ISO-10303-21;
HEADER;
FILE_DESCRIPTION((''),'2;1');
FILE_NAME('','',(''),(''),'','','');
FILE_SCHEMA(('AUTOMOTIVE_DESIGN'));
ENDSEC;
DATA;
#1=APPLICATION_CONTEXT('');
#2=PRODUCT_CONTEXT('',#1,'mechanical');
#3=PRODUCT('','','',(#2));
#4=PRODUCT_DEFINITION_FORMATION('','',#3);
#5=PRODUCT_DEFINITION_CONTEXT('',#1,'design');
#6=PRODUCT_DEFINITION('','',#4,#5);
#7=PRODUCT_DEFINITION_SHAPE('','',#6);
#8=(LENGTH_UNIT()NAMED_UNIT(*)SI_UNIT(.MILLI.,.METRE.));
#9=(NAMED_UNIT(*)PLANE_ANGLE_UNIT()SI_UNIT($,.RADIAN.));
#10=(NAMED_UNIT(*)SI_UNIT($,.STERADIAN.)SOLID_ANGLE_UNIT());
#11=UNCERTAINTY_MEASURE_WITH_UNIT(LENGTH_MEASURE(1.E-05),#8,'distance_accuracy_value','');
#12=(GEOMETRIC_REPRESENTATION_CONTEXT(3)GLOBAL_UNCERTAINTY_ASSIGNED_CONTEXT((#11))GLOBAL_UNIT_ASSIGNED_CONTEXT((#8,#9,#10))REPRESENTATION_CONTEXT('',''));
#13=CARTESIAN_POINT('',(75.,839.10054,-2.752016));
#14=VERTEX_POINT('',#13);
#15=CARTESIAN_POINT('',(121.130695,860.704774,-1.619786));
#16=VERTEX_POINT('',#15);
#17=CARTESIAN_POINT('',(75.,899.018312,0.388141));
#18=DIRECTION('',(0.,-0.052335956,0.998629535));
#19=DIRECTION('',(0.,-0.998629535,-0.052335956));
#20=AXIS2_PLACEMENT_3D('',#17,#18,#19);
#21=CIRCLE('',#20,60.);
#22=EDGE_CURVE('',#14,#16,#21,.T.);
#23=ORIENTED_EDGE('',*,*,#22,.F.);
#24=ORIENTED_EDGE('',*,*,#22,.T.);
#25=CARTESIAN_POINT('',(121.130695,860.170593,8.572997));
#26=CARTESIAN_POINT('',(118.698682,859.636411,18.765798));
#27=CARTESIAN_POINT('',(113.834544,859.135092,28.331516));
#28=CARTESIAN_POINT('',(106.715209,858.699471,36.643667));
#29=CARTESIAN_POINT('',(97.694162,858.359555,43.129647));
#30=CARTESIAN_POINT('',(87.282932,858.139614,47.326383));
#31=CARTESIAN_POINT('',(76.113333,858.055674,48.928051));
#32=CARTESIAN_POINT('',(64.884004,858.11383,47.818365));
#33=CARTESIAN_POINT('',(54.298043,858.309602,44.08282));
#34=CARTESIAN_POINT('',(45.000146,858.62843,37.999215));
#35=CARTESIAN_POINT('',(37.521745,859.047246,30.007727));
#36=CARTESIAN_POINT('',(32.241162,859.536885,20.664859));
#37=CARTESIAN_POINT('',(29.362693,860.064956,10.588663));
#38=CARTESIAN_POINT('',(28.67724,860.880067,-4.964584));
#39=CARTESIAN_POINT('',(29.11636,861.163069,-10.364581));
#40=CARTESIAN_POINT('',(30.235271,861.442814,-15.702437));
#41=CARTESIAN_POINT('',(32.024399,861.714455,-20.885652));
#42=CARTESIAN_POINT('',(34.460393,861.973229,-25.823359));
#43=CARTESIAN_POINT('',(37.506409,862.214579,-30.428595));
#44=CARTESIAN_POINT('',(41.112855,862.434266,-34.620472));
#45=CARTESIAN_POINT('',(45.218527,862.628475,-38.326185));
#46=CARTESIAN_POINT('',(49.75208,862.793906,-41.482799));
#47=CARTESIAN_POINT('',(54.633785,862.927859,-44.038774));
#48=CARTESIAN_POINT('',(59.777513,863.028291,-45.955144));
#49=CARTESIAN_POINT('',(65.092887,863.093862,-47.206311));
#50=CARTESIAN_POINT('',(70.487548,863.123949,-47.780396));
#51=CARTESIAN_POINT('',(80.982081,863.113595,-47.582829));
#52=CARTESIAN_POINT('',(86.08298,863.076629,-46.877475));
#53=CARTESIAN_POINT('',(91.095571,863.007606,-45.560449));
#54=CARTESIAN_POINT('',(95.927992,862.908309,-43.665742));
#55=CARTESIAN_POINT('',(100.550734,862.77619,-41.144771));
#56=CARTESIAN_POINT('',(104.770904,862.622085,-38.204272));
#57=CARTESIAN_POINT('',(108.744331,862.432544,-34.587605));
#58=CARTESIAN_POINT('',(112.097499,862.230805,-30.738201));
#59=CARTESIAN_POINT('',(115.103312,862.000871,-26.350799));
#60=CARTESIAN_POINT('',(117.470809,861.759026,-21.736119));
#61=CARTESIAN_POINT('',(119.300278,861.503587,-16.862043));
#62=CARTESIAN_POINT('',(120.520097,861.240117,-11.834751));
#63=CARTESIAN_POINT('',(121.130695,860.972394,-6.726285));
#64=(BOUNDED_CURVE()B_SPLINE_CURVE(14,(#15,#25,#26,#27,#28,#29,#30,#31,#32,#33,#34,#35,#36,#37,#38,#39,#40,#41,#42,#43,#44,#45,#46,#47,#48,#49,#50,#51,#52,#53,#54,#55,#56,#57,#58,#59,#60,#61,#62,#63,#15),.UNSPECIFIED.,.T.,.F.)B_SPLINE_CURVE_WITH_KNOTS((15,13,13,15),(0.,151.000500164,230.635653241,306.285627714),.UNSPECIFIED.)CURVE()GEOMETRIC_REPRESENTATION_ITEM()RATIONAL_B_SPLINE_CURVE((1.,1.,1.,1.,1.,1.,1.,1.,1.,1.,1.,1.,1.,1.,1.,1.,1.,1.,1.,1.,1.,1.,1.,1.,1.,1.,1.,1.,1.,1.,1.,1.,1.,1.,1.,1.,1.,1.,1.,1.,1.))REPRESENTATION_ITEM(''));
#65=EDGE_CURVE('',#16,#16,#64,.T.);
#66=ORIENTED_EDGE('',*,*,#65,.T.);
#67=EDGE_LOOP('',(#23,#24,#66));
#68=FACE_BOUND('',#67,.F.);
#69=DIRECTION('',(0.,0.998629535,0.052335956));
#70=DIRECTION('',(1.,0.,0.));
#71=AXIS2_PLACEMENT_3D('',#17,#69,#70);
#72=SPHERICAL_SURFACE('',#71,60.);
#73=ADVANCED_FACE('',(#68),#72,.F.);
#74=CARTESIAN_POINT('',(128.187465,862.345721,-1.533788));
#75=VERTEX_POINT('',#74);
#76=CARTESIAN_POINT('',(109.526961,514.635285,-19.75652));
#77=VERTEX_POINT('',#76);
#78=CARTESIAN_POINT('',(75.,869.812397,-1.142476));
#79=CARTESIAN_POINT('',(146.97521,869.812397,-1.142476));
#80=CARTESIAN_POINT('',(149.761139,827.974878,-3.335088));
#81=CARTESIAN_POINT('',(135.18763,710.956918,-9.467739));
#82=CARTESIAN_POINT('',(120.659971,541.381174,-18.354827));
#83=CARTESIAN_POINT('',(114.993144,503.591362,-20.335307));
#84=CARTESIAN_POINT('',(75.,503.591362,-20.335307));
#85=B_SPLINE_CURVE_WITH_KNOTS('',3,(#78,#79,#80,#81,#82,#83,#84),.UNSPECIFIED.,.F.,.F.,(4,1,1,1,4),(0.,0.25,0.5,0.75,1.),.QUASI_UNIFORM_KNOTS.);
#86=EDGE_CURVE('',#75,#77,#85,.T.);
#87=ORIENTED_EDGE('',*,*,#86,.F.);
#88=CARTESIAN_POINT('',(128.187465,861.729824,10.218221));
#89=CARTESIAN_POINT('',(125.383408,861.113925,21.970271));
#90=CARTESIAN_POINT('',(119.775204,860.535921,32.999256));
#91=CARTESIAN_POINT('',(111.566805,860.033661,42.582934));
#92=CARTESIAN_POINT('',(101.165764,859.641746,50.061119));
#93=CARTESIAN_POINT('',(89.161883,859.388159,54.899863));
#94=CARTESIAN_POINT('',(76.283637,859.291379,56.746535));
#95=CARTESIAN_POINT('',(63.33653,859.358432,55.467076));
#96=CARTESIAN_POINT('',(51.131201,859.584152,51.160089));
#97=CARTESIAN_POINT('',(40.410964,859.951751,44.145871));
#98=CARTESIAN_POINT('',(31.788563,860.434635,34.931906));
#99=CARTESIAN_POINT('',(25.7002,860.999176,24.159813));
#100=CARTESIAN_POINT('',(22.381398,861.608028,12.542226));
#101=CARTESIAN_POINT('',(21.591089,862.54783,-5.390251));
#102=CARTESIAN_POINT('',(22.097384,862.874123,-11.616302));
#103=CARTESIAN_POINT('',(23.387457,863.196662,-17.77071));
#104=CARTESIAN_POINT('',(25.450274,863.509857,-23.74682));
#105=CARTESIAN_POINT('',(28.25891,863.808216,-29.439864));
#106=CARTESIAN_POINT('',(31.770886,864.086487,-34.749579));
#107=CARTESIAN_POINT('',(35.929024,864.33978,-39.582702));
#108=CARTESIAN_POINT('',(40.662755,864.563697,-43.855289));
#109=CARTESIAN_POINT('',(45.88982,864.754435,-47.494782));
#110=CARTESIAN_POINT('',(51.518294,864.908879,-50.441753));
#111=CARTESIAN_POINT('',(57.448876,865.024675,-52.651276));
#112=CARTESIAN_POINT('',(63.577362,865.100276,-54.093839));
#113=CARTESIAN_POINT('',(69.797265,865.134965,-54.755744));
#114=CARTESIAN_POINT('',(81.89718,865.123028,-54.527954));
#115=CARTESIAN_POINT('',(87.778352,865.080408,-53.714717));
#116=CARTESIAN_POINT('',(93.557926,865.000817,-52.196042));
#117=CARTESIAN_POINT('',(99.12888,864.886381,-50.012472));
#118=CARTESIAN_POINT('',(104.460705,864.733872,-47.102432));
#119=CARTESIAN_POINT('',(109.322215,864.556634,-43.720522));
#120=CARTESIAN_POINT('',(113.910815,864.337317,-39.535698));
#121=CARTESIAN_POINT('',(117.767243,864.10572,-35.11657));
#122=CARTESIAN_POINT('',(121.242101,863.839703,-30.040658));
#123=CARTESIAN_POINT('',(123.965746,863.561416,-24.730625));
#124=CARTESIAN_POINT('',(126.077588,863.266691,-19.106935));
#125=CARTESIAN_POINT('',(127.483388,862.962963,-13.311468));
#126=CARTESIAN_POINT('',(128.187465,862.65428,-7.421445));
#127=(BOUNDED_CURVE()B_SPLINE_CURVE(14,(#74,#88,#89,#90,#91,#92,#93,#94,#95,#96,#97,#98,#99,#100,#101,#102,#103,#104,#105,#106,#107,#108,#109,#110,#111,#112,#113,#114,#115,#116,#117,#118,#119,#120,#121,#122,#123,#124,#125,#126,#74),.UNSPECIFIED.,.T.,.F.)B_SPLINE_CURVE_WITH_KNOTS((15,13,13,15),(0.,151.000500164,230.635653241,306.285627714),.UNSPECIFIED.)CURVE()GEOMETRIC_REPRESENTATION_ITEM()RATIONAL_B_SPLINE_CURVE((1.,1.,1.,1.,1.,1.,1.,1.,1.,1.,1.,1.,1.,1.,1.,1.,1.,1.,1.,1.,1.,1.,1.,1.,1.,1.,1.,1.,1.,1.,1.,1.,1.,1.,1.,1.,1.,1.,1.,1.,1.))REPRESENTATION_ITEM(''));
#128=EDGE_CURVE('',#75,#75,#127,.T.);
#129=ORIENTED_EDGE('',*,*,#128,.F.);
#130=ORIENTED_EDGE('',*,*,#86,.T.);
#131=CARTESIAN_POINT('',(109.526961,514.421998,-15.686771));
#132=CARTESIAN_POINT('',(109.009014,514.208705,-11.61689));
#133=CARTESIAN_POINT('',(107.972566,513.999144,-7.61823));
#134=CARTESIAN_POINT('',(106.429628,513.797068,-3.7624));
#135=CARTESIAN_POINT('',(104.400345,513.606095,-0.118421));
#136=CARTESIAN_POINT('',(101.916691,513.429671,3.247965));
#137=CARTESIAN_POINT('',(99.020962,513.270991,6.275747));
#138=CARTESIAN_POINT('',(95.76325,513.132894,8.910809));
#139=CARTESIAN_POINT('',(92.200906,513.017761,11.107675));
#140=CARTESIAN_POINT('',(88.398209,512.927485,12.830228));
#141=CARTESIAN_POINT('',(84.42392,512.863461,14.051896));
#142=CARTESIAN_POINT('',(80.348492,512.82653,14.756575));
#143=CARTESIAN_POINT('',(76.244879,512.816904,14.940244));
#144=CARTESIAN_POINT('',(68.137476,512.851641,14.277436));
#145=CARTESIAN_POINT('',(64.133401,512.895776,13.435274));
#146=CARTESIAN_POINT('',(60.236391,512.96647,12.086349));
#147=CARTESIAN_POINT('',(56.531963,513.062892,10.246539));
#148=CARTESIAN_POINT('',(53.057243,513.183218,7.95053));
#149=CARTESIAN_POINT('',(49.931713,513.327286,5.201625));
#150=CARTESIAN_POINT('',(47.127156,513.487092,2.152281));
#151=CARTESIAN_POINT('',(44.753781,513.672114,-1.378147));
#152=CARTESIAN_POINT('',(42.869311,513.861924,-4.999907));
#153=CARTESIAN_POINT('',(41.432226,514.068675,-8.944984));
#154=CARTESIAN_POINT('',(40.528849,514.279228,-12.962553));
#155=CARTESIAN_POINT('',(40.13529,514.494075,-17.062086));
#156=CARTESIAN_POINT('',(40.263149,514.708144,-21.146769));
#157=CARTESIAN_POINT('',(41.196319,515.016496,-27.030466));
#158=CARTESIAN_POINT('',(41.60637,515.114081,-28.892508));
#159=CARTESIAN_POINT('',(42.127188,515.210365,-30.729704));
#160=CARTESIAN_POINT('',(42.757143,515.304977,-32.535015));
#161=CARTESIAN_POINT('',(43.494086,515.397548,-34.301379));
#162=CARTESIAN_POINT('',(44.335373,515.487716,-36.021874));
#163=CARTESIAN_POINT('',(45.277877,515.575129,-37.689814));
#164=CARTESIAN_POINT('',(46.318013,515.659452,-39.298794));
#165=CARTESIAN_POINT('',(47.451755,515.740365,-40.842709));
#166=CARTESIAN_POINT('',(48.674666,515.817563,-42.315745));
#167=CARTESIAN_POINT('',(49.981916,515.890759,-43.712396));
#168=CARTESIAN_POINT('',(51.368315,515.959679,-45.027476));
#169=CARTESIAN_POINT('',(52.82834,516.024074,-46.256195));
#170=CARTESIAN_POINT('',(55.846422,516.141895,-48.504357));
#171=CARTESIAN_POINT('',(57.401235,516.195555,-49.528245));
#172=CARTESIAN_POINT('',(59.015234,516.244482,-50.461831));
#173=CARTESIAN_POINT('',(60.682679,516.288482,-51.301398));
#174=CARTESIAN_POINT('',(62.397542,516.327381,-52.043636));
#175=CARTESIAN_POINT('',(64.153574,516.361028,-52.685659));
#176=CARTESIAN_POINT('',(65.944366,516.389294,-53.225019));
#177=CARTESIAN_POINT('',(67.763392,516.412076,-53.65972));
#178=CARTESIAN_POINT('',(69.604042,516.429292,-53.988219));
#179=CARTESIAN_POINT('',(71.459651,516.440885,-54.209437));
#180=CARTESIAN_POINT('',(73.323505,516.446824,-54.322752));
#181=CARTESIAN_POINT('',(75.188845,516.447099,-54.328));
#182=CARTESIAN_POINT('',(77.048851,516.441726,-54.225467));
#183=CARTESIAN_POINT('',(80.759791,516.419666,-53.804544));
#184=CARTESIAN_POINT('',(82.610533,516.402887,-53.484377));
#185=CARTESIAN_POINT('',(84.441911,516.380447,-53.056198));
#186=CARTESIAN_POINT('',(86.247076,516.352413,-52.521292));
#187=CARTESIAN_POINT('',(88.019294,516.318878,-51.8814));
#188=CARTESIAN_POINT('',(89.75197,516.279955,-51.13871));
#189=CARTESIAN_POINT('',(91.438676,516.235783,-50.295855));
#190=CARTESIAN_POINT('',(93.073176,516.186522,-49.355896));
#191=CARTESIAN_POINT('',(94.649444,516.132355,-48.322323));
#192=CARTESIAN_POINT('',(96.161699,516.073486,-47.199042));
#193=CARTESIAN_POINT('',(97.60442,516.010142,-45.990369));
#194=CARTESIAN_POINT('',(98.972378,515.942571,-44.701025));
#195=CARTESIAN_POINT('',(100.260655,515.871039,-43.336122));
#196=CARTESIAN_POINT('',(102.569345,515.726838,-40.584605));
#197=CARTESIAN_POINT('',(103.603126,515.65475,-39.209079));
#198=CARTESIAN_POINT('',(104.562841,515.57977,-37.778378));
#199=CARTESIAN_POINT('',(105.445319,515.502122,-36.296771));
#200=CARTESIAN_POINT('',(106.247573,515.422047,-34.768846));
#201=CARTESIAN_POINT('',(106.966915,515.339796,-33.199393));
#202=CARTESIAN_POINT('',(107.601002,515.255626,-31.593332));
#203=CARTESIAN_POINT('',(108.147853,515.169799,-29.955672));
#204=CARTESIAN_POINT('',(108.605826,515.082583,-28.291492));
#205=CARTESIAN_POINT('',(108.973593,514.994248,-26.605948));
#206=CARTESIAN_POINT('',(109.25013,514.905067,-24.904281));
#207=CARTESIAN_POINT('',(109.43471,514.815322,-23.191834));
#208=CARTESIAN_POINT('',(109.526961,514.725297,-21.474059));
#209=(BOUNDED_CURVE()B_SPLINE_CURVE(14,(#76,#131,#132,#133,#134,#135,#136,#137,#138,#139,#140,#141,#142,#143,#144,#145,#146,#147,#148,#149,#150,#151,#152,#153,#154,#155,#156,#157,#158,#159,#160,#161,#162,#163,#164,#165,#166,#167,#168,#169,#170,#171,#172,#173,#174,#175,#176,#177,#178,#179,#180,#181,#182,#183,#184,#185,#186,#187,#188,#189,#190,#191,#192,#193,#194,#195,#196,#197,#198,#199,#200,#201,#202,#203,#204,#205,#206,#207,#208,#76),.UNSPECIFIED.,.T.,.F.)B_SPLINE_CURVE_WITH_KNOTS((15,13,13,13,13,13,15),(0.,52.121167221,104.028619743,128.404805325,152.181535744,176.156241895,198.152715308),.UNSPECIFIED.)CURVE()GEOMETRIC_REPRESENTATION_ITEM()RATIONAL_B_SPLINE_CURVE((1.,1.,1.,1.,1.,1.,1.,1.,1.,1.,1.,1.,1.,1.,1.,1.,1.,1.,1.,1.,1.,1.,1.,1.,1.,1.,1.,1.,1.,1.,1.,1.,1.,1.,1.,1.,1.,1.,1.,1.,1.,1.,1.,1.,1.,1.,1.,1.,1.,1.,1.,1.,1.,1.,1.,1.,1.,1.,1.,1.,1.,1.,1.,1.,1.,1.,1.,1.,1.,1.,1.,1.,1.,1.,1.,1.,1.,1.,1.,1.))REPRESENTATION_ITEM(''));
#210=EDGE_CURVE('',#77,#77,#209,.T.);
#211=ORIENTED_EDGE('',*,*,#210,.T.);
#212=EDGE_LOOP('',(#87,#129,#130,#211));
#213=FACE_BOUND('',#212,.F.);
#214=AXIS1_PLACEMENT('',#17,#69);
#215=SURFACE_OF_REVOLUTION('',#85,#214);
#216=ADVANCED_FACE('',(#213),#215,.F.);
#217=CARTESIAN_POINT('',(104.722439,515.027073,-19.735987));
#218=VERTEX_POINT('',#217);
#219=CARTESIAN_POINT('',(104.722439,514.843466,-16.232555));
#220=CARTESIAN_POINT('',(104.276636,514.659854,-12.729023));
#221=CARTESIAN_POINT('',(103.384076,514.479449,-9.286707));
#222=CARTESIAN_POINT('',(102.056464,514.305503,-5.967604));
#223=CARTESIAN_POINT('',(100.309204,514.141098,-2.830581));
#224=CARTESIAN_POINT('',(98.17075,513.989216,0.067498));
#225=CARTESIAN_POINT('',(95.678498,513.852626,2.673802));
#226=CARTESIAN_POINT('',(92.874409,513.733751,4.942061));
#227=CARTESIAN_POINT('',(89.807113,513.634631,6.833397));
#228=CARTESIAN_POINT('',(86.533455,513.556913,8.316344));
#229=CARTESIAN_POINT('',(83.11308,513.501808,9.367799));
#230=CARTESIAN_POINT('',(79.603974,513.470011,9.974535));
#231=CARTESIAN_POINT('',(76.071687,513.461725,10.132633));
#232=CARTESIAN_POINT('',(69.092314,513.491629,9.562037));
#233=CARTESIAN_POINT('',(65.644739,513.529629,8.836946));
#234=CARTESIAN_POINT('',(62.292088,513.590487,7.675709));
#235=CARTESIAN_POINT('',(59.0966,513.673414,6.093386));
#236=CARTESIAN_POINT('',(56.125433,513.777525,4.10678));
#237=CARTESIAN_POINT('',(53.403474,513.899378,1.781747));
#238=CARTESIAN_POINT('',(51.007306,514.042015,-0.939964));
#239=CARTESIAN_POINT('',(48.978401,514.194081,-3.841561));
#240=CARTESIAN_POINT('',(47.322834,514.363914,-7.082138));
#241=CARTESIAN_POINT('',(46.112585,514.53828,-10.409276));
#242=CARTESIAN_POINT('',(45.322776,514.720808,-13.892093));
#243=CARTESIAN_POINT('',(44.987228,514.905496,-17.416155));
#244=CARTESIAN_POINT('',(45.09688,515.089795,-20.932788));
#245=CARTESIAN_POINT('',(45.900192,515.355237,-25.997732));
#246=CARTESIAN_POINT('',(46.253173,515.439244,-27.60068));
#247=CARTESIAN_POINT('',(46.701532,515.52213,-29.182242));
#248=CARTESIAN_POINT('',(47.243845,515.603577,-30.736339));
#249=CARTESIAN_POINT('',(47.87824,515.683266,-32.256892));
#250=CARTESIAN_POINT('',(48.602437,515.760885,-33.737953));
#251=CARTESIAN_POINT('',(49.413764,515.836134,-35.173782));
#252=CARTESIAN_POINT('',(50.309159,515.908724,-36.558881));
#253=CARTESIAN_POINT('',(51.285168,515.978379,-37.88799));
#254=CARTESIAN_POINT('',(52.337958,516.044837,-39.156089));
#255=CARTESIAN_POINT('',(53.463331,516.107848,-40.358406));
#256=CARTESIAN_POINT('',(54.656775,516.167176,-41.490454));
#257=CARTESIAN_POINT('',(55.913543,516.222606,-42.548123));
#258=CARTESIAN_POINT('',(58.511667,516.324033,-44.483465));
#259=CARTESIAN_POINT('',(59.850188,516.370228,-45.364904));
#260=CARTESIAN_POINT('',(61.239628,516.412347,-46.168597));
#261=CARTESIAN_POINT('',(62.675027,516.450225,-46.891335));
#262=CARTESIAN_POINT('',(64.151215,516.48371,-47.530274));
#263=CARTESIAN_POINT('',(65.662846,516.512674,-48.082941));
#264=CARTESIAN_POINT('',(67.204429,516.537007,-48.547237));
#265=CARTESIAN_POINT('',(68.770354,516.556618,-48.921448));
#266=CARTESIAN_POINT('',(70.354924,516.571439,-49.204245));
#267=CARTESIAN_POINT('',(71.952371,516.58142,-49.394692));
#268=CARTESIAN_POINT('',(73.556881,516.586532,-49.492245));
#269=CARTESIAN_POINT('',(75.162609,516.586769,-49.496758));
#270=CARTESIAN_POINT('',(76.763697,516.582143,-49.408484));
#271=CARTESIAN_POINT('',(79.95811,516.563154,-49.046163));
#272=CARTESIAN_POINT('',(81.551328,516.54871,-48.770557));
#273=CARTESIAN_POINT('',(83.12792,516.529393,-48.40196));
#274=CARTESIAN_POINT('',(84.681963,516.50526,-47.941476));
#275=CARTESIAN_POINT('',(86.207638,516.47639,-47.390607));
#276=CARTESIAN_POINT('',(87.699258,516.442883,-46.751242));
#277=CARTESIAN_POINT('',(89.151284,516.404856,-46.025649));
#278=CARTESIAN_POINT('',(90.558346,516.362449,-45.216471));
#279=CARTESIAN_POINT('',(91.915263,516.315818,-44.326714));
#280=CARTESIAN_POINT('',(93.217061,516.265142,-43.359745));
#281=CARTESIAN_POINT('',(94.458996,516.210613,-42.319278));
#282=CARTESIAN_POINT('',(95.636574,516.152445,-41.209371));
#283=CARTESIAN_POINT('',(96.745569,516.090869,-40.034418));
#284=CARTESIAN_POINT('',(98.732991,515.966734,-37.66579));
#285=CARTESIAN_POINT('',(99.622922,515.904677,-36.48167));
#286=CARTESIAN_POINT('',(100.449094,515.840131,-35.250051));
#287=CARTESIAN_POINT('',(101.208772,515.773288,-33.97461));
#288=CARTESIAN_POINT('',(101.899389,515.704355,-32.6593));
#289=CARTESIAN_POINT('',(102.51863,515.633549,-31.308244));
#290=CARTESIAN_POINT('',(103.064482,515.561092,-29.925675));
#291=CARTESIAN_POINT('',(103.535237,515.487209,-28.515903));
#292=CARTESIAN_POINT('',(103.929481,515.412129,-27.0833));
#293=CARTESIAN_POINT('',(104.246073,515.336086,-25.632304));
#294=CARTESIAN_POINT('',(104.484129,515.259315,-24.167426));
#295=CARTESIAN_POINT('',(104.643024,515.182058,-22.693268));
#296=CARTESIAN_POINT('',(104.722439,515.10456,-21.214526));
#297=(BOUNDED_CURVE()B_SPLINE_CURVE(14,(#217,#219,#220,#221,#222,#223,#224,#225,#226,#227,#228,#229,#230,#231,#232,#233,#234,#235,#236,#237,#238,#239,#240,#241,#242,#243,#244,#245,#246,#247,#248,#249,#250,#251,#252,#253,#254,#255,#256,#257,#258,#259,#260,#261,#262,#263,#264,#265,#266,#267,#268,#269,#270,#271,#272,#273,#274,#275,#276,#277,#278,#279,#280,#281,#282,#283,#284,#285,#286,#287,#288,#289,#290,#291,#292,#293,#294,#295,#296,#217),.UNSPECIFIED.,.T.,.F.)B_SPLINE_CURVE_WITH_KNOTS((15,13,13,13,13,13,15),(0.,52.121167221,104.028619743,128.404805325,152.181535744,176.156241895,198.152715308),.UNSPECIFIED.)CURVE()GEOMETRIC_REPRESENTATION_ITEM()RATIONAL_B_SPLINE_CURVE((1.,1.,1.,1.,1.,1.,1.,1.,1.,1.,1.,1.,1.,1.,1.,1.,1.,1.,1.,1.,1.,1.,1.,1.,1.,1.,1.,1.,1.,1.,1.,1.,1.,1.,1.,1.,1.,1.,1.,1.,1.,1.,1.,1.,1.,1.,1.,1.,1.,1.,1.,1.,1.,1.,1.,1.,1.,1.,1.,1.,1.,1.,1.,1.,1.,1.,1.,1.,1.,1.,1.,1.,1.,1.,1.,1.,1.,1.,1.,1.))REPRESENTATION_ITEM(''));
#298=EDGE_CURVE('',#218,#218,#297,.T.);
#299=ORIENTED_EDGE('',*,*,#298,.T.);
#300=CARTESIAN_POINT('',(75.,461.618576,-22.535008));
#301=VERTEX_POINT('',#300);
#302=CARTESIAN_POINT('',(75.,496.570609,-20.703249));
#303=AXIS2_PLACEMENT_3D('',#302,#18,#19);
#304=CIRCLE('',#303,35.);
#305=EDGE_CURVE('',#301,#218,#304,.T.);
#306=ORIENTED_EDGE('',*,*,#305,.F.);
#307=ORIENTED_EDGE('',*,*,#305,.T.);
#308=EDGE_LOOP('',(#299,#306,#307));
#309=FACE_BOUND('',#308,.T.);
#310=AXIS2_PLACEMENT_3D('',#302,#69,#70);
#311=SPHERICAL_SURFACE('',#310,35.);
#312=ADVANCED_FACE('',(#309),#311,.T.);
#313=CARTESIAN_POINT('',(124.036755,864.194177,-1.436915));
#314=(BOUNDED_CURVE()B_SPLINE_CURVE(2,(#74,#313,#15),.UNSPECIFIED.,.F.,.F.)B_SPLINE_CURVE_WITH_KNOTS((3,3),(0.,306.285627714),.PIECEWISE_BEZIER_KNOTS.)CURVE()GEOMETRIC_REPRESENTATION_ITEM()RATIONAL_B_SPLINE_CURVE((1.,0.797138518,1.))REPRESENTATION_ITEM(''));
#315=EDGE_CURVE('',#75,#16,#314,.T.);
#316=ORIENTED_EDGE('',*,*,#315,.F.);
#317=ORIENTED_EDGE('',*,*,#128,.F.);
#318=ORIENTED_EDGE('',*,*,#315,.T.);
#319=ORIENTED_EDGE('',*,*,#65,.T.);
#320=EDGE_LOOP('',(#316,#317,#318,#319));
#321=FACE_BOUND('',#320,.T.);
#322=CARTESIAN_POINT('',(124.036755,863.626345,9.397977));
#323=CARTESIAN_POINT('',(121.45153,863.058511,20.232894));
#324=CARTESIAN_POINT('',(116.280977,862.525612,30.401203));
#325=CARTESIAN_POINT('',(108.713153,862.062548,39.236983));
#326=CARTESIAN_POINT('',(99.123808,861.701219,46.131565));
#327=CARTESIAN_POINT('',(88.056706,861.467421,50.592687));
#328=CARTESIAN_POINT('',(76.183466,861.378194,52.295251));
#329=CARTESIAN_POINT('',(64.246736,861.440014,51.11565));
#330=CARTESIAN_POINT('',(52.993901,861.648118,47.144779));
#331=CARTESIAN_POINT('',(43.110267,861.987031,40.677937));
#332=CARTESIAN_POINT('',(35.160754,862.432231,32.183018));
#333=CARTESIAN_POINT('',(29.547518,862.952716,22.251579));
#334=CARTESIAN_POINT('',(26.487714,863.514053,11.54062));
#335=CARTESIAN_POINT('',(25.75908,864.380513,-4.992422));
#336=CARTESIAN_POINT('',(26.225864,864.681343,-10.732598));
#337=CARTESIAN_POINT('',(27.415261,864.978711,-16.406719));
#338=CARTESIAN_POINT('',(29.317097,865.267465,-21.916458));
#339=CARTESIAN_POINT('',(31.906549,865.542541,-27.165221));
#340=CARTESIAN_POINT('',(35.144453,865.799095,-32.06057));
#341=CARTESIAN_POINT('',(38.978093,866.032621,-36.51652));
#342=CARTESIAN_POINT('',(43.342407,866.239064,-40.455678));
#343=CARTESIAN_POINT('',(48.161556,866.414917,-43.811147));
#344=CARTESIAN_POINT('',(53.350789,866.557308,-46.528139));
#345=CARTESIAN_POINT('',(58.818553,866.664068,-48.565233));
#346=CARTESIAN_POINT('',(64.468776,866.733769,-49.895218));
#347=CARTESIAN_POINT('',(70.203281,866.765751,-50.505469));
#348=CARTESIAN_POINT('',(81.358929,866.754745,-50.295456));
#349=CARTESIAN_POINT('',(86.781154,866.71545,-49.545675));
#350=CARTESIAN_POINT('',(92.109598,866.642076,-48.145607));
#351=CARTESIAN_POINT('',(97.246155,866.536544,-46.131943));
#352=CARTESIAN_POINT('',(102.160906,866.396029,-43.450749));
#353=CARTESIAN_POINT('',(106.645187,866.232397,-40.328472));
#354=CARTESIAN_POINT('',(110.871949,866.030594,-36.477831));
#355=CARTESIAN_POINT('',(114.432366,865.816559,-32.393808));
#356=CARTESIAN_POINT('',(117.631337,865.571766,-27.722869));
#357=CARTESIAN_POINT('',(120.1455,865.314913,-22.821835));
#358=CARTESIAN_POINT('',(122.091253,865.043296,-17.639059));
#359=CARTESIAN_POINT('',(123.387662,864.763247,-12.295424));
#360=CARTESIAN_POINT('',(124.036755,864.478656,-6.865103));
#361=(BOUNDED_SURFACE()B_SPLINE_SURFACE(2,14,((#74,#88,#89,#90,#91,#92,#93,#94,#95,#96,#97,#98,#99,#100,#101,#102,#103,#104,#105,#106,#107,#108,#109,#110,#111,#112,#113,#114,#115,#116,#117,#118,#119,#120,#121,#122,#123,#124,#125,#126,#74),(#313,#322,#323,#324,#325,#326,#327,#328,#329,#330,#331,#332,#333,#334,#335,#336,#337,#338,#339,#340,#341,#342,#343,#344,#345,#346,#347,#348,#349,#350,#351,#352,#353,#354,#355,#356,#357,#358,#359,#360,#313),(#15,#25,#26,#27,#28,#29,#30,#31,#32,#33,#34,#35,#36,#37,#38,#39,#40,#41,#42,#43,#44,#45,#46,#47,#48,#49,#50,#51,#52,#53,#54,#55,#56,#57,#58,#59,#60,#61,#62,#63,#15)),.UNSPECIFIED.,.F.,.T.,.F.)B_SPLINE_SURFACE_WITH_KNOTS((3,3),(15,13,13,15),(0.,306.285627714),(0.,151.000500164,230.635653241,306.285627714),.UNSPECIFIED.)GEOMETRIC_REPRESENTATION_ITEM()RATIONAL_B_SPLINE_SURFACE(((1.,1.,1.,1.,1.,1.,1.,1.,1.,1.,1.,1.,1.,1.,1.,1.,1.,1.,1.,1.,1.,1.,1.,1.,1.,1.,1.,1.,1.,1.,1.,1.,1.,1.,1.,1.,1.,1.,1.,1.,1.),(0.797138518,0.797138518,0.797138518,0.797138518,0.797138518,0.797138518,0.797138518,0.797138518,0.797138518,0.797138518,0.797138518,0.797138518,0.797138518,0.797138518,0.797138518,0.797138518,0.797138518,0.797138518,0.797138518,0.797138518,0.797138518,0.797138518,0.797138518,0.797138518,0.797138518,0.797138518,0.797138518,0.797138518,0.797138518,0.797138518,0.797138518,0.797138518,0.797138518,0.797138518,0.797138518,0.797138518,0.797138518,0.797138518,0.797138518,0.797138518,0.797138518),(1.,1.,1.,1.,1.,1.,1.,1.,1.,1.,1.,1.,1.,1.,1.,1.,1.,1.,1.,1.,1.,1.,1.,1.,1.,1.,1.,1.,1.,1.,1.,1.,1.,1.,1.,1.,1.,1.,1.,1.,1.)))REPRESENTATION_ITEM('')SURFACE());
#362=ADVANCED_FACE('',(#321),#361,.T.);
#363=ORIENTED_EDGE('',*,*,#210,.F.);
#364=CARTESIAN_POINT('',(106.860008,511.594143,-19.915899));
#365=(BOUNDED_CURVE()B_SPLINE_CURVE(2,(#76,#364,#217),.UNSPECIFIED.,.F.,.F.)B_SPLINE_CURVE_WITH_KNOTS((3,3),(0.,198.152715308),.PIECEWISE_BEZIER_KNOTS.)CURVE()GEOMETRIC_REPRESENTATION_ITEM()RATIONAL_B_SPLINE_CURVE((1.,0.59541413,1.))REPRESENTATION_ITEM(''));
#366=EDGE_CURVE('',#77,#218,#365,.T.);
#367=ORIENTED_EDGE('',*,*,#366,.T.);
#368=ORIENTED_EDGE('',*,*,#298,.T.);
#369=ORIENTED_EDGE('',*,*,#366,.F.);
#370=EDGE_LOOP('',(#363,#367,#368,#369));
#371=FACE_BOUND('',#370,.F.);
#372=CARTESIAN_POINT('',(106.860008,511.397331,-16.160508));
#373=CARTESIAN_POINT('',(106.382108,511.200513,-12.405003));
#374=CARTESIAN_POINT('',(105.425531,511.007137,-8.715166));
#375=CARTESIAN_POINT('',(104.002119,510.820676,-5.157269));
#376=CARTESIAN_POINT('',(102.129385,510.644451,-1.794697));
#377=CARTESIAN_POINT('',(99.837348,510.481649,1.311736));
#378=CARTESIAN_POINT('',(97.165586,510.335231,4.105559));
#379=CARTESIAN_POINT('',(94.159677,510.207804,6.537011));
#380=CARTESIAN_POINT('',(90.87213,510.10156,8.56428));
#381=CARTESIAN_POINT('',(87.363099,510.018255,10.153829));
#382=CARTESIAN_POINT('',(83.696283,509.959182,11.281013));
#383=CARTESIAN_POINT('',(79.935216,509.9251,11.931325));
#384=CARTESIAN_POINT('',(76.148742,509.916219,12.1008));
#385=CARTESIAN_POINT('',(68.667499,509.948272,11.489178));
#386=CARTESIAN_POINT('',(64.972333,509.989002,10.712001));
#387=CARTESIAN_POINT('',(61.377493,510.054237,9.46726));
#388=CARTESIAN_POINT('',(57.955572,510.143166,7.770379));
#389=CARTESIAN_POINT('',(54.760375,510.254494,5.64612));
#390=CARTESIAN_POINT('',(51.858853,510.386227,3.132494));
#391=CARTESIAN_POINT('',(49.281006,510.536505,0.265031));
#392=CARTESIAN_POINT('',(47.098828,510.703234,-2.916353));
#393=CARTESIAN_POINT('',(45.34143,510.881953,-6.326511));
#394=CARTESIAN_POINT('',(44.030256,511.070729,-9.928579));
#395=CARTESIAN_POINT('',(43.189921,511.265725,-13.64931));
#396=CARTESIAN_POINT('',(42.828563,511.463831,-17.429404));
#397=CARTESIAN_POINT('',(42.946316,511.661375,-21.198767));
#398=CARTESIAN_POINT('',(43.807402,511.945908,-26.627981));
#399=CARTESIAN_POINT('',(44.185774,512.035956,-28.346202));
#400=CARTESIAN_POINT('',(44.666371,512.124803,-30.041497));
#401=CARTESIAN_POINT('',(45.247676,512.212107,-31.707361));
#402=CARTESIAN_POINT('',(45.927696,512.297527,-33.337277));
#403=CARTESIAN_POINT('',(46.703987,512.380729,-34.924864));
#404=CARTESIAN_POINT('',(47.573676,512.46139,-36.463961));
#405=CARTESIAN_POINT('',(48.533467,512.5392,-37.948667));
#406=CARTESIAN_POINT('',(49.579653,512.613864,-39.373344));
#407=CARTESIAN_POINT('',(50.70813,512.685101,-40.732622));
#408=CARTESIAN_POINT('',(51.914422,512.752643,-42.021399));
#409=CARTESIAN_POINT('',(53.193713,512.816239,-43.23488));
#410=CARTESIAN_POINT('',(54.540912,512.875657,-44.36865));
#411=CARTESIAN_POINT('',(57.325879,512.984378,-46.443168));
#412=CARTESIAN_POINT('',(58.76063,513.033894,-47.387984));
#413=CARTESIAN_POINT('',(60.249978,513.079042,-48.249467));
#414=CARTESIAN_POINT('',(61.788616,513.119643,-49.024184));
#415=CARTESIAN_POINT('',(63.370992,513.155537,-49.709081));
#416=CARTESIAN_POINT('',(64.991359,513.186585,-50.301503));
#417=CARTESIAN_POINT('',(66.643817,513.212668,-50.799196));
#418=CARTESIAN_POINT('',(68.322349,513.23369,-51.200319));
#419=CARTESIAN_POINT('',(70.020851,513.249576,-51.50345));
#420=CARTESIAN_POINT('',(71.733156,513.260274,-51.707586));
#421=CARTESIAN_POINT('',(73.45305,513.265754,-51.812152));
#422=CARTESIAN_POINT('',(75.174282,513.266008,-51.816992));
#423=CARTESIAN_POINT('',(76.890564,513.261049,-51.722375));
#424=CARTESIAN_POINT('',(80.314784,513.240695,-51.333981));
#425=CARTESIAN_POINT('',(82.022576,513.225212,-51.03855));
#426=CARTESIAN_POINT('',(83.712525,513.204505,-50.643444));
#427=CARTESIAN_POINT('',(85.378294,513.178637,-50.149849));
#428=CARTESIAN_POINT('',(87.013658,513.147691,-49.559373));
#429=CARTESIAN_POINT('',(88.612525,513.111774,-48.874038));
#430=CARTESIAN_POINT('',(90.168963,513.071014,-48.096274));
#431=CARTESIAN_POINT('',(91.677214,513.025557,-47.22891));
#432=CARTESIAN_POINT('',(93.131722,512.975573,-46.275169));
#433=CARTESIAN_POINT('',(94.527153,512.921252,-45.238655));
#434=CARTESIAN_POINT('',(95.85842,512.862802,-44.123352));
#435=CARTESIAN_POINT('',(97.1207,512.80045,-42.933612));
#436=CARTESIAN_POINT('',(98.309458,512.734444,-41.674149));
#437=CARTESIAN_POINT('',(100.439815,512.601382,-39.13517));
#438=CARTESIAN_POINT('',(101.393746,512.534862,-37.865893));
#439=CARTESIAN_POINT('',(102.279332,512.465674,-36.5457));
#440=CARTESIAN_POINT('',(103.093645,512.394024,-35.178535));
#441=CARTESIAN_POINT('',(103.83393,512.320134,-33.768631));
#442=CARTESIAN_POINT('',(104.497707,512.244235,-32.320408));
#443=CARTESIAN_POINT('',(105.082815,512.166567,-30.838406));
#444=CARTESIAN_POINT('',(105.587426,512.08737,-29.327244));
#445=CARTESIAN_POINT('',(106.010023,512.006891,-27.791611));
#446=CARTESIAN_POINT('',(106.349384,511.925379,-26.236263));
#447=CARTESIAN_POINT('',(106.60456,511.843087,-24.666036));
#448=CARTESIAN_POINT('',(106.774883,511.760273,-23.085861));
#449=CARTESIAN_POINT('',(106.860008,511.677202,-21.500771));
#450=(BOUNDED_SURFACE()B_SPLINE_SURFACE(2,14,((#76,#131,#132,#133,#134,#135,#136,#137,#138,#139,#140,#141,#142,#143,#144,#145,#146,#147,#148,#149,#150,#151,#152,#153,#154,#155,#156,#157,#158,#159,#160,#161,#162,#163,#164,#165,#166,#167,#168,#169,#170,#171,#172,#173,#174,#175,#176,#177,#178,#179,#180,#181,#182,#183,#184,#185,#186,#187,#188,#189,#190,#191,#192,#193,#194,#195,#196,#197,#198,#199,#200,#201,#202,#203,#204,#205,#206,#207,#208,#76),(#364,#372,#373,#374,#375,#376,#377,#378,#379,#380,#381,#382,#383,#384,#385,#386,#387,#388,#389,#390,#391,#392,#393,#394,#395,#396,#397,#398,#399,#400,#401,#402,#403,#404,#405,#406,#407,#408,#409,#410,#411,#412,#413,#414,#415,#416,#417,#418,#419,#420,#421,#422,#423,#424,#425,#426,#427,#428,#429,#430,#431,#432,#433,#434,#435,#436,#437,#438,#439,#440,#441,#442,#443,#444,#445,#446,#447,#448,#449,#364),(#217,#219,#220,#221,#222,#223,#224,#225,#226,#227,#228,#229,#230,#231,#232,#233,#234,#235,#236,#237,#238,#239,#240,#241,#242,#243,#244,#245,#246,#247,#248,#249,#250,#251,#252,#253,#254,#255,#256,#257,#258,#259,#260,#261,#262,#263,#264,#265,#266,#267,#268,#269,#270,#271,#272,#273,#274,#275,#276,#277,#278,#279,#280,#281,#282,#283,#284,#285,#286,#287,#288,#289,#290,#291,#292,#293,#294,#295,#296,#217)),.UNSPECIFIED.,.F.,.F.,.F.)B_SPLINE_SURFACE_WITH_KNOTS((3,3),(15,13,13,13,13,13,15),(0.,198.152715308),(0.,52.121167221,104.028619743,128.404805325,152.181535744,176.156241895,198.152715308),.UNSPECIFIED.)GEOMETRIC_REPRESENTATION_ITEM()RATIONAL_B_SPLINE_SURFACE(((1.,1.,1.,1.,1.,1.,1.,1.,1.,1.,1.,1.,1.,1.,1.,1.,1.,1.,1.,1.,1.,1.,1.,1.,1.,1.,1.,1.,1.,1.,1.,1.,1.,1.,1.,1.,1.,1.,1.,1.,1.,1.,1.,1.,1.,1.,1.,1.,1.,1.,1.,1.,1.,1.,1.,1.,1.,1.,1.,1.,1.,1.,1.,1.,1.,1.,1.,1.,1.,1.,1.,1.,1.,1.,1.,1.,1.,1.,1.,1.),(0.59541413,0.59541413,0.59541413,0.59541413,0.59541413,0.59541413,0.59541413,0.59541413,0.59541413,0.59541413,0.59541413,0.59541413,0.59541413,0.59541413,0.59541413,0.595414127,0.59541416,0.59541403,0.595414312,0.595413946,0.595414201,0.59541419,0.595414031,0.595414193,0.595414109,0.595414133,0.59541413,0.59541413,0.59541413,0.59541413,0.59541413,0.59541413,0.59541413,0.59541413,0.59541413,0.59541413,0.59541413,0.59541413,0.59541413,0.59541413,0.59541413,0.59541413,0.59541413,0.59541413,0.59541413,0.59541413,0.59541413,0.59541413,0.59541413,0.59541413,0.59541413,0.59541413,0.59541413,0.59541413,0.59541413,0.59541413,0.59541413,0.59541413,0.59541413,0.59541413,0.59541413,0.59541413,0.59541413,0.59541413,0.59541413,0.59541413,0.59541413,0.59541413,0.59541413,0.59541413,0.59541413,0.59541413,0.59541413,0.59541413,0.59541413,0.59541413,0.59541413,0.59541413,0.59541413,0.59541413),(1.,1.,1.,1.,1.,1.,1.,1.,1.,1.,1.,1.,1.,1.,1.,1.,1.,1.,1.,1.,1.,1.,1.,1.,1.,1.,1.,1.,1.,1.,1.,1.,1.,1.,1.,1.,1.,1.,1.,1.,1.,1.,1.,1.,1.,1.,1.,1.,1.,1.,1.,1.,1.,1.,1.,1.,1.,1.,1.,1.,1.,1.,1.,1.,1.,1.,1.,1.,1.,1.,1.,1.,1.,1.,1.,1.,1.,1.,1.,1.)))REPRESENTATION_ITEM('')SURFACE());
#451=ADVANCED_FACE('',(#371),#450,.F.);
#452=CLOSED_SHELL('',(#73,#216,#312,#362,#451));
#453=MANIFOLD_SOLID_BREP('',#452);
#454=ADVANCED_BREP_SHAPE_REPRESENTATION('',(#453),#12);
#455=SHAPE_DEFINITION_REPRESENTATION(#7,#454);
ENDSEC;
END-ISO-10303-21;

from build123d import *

# Parameters (mm, degrees)
FILLET096_R             = 6
FILLET097_R             = 3
BODY058_PLACEMENT_ANGLE = 3


with BuildPart() as part:
    # Sketch195 → Revolution100 (revolve)
    with BuildSketch(Plane.XY):
        with BuildLine():
            Line((0, -29.245996), (0, -395.969613))
            add(Edge.make_bspline(
                [(0, -29.245996), (71.97521, -29.245996), (74.761139, -71.14093), (60.18763, -188.319479), (45.659971, -358.12794), (39.993144, -395.969613), (0, -395.969613)],
                knots=[0, 0, 0, 0, 0.25, 0.5, 0.75, 1, 1, 1, 1], degree=3))
        make_face()
    revolve(axis=Axis((0, 0, 0), (0, 1, 0)))

    # Sketch196 → Groove094 (revolve, cut)
    with BuildSketch(Plane.XY):
        with BuildLine():
            Line((0, 60), (0, -60))
            ThreePointArc((0, -60), (60, 0), (0, 60))
        make_face()
    revolve(axis=Axis((0, 0, 0), (0, 1, 0)), mode=Mode.SUBTRACT)

    # Fillet096
    fillet096_edges = [part.edges().sort_by_distance(p)[0] for p in [
        (-48.746872, -34.982031, 0),
    ]]
    fillet(fillet096_edges, radius=FILLET096_R)

    # Sketch197 → Groove095 (revolve, cut)
    with BuildSketch(Plane.XY):
        with BuildLine():
            Line((0, -368), (0, -438))
            ThreePointArc((0, -438), (35, -403), (0, -368))
        make_face()
    revolve(axis=Axis((0, 0, 0), (0, 1, 0)), mode=Mode.SUBTRACT)

    # Fillet097
    fillet097_edges = [part.edges().sort_by_distance(p)[0] for p in [
        (-31.536984, -387.820454, 0),
    ]]
    fillet(fillet097_edges, radius=FILLET097_R)

    # Sketch197 → Revolution101 (revolve)
    with BuildSketch(Plane.XY):
        with BuildLine():
            Line((0, -368), (0, -438))
            ThreePointArc((0, -438), (35, -403), (0, -368))
        make_face()
    revolve(axis=Axis((0, 0, 0), (0, 1, 0)))


with BuildPart() as part_1:
    # Body058 placement: moved
    add(part.part.moved(Location((75, 899.018312, 0.388141))).rotate(Axis((75, 899.018312, 0.388141), (1, 0, 0)), BODY058_PLACEMENT_ANGLE))


solid = part_1.part
